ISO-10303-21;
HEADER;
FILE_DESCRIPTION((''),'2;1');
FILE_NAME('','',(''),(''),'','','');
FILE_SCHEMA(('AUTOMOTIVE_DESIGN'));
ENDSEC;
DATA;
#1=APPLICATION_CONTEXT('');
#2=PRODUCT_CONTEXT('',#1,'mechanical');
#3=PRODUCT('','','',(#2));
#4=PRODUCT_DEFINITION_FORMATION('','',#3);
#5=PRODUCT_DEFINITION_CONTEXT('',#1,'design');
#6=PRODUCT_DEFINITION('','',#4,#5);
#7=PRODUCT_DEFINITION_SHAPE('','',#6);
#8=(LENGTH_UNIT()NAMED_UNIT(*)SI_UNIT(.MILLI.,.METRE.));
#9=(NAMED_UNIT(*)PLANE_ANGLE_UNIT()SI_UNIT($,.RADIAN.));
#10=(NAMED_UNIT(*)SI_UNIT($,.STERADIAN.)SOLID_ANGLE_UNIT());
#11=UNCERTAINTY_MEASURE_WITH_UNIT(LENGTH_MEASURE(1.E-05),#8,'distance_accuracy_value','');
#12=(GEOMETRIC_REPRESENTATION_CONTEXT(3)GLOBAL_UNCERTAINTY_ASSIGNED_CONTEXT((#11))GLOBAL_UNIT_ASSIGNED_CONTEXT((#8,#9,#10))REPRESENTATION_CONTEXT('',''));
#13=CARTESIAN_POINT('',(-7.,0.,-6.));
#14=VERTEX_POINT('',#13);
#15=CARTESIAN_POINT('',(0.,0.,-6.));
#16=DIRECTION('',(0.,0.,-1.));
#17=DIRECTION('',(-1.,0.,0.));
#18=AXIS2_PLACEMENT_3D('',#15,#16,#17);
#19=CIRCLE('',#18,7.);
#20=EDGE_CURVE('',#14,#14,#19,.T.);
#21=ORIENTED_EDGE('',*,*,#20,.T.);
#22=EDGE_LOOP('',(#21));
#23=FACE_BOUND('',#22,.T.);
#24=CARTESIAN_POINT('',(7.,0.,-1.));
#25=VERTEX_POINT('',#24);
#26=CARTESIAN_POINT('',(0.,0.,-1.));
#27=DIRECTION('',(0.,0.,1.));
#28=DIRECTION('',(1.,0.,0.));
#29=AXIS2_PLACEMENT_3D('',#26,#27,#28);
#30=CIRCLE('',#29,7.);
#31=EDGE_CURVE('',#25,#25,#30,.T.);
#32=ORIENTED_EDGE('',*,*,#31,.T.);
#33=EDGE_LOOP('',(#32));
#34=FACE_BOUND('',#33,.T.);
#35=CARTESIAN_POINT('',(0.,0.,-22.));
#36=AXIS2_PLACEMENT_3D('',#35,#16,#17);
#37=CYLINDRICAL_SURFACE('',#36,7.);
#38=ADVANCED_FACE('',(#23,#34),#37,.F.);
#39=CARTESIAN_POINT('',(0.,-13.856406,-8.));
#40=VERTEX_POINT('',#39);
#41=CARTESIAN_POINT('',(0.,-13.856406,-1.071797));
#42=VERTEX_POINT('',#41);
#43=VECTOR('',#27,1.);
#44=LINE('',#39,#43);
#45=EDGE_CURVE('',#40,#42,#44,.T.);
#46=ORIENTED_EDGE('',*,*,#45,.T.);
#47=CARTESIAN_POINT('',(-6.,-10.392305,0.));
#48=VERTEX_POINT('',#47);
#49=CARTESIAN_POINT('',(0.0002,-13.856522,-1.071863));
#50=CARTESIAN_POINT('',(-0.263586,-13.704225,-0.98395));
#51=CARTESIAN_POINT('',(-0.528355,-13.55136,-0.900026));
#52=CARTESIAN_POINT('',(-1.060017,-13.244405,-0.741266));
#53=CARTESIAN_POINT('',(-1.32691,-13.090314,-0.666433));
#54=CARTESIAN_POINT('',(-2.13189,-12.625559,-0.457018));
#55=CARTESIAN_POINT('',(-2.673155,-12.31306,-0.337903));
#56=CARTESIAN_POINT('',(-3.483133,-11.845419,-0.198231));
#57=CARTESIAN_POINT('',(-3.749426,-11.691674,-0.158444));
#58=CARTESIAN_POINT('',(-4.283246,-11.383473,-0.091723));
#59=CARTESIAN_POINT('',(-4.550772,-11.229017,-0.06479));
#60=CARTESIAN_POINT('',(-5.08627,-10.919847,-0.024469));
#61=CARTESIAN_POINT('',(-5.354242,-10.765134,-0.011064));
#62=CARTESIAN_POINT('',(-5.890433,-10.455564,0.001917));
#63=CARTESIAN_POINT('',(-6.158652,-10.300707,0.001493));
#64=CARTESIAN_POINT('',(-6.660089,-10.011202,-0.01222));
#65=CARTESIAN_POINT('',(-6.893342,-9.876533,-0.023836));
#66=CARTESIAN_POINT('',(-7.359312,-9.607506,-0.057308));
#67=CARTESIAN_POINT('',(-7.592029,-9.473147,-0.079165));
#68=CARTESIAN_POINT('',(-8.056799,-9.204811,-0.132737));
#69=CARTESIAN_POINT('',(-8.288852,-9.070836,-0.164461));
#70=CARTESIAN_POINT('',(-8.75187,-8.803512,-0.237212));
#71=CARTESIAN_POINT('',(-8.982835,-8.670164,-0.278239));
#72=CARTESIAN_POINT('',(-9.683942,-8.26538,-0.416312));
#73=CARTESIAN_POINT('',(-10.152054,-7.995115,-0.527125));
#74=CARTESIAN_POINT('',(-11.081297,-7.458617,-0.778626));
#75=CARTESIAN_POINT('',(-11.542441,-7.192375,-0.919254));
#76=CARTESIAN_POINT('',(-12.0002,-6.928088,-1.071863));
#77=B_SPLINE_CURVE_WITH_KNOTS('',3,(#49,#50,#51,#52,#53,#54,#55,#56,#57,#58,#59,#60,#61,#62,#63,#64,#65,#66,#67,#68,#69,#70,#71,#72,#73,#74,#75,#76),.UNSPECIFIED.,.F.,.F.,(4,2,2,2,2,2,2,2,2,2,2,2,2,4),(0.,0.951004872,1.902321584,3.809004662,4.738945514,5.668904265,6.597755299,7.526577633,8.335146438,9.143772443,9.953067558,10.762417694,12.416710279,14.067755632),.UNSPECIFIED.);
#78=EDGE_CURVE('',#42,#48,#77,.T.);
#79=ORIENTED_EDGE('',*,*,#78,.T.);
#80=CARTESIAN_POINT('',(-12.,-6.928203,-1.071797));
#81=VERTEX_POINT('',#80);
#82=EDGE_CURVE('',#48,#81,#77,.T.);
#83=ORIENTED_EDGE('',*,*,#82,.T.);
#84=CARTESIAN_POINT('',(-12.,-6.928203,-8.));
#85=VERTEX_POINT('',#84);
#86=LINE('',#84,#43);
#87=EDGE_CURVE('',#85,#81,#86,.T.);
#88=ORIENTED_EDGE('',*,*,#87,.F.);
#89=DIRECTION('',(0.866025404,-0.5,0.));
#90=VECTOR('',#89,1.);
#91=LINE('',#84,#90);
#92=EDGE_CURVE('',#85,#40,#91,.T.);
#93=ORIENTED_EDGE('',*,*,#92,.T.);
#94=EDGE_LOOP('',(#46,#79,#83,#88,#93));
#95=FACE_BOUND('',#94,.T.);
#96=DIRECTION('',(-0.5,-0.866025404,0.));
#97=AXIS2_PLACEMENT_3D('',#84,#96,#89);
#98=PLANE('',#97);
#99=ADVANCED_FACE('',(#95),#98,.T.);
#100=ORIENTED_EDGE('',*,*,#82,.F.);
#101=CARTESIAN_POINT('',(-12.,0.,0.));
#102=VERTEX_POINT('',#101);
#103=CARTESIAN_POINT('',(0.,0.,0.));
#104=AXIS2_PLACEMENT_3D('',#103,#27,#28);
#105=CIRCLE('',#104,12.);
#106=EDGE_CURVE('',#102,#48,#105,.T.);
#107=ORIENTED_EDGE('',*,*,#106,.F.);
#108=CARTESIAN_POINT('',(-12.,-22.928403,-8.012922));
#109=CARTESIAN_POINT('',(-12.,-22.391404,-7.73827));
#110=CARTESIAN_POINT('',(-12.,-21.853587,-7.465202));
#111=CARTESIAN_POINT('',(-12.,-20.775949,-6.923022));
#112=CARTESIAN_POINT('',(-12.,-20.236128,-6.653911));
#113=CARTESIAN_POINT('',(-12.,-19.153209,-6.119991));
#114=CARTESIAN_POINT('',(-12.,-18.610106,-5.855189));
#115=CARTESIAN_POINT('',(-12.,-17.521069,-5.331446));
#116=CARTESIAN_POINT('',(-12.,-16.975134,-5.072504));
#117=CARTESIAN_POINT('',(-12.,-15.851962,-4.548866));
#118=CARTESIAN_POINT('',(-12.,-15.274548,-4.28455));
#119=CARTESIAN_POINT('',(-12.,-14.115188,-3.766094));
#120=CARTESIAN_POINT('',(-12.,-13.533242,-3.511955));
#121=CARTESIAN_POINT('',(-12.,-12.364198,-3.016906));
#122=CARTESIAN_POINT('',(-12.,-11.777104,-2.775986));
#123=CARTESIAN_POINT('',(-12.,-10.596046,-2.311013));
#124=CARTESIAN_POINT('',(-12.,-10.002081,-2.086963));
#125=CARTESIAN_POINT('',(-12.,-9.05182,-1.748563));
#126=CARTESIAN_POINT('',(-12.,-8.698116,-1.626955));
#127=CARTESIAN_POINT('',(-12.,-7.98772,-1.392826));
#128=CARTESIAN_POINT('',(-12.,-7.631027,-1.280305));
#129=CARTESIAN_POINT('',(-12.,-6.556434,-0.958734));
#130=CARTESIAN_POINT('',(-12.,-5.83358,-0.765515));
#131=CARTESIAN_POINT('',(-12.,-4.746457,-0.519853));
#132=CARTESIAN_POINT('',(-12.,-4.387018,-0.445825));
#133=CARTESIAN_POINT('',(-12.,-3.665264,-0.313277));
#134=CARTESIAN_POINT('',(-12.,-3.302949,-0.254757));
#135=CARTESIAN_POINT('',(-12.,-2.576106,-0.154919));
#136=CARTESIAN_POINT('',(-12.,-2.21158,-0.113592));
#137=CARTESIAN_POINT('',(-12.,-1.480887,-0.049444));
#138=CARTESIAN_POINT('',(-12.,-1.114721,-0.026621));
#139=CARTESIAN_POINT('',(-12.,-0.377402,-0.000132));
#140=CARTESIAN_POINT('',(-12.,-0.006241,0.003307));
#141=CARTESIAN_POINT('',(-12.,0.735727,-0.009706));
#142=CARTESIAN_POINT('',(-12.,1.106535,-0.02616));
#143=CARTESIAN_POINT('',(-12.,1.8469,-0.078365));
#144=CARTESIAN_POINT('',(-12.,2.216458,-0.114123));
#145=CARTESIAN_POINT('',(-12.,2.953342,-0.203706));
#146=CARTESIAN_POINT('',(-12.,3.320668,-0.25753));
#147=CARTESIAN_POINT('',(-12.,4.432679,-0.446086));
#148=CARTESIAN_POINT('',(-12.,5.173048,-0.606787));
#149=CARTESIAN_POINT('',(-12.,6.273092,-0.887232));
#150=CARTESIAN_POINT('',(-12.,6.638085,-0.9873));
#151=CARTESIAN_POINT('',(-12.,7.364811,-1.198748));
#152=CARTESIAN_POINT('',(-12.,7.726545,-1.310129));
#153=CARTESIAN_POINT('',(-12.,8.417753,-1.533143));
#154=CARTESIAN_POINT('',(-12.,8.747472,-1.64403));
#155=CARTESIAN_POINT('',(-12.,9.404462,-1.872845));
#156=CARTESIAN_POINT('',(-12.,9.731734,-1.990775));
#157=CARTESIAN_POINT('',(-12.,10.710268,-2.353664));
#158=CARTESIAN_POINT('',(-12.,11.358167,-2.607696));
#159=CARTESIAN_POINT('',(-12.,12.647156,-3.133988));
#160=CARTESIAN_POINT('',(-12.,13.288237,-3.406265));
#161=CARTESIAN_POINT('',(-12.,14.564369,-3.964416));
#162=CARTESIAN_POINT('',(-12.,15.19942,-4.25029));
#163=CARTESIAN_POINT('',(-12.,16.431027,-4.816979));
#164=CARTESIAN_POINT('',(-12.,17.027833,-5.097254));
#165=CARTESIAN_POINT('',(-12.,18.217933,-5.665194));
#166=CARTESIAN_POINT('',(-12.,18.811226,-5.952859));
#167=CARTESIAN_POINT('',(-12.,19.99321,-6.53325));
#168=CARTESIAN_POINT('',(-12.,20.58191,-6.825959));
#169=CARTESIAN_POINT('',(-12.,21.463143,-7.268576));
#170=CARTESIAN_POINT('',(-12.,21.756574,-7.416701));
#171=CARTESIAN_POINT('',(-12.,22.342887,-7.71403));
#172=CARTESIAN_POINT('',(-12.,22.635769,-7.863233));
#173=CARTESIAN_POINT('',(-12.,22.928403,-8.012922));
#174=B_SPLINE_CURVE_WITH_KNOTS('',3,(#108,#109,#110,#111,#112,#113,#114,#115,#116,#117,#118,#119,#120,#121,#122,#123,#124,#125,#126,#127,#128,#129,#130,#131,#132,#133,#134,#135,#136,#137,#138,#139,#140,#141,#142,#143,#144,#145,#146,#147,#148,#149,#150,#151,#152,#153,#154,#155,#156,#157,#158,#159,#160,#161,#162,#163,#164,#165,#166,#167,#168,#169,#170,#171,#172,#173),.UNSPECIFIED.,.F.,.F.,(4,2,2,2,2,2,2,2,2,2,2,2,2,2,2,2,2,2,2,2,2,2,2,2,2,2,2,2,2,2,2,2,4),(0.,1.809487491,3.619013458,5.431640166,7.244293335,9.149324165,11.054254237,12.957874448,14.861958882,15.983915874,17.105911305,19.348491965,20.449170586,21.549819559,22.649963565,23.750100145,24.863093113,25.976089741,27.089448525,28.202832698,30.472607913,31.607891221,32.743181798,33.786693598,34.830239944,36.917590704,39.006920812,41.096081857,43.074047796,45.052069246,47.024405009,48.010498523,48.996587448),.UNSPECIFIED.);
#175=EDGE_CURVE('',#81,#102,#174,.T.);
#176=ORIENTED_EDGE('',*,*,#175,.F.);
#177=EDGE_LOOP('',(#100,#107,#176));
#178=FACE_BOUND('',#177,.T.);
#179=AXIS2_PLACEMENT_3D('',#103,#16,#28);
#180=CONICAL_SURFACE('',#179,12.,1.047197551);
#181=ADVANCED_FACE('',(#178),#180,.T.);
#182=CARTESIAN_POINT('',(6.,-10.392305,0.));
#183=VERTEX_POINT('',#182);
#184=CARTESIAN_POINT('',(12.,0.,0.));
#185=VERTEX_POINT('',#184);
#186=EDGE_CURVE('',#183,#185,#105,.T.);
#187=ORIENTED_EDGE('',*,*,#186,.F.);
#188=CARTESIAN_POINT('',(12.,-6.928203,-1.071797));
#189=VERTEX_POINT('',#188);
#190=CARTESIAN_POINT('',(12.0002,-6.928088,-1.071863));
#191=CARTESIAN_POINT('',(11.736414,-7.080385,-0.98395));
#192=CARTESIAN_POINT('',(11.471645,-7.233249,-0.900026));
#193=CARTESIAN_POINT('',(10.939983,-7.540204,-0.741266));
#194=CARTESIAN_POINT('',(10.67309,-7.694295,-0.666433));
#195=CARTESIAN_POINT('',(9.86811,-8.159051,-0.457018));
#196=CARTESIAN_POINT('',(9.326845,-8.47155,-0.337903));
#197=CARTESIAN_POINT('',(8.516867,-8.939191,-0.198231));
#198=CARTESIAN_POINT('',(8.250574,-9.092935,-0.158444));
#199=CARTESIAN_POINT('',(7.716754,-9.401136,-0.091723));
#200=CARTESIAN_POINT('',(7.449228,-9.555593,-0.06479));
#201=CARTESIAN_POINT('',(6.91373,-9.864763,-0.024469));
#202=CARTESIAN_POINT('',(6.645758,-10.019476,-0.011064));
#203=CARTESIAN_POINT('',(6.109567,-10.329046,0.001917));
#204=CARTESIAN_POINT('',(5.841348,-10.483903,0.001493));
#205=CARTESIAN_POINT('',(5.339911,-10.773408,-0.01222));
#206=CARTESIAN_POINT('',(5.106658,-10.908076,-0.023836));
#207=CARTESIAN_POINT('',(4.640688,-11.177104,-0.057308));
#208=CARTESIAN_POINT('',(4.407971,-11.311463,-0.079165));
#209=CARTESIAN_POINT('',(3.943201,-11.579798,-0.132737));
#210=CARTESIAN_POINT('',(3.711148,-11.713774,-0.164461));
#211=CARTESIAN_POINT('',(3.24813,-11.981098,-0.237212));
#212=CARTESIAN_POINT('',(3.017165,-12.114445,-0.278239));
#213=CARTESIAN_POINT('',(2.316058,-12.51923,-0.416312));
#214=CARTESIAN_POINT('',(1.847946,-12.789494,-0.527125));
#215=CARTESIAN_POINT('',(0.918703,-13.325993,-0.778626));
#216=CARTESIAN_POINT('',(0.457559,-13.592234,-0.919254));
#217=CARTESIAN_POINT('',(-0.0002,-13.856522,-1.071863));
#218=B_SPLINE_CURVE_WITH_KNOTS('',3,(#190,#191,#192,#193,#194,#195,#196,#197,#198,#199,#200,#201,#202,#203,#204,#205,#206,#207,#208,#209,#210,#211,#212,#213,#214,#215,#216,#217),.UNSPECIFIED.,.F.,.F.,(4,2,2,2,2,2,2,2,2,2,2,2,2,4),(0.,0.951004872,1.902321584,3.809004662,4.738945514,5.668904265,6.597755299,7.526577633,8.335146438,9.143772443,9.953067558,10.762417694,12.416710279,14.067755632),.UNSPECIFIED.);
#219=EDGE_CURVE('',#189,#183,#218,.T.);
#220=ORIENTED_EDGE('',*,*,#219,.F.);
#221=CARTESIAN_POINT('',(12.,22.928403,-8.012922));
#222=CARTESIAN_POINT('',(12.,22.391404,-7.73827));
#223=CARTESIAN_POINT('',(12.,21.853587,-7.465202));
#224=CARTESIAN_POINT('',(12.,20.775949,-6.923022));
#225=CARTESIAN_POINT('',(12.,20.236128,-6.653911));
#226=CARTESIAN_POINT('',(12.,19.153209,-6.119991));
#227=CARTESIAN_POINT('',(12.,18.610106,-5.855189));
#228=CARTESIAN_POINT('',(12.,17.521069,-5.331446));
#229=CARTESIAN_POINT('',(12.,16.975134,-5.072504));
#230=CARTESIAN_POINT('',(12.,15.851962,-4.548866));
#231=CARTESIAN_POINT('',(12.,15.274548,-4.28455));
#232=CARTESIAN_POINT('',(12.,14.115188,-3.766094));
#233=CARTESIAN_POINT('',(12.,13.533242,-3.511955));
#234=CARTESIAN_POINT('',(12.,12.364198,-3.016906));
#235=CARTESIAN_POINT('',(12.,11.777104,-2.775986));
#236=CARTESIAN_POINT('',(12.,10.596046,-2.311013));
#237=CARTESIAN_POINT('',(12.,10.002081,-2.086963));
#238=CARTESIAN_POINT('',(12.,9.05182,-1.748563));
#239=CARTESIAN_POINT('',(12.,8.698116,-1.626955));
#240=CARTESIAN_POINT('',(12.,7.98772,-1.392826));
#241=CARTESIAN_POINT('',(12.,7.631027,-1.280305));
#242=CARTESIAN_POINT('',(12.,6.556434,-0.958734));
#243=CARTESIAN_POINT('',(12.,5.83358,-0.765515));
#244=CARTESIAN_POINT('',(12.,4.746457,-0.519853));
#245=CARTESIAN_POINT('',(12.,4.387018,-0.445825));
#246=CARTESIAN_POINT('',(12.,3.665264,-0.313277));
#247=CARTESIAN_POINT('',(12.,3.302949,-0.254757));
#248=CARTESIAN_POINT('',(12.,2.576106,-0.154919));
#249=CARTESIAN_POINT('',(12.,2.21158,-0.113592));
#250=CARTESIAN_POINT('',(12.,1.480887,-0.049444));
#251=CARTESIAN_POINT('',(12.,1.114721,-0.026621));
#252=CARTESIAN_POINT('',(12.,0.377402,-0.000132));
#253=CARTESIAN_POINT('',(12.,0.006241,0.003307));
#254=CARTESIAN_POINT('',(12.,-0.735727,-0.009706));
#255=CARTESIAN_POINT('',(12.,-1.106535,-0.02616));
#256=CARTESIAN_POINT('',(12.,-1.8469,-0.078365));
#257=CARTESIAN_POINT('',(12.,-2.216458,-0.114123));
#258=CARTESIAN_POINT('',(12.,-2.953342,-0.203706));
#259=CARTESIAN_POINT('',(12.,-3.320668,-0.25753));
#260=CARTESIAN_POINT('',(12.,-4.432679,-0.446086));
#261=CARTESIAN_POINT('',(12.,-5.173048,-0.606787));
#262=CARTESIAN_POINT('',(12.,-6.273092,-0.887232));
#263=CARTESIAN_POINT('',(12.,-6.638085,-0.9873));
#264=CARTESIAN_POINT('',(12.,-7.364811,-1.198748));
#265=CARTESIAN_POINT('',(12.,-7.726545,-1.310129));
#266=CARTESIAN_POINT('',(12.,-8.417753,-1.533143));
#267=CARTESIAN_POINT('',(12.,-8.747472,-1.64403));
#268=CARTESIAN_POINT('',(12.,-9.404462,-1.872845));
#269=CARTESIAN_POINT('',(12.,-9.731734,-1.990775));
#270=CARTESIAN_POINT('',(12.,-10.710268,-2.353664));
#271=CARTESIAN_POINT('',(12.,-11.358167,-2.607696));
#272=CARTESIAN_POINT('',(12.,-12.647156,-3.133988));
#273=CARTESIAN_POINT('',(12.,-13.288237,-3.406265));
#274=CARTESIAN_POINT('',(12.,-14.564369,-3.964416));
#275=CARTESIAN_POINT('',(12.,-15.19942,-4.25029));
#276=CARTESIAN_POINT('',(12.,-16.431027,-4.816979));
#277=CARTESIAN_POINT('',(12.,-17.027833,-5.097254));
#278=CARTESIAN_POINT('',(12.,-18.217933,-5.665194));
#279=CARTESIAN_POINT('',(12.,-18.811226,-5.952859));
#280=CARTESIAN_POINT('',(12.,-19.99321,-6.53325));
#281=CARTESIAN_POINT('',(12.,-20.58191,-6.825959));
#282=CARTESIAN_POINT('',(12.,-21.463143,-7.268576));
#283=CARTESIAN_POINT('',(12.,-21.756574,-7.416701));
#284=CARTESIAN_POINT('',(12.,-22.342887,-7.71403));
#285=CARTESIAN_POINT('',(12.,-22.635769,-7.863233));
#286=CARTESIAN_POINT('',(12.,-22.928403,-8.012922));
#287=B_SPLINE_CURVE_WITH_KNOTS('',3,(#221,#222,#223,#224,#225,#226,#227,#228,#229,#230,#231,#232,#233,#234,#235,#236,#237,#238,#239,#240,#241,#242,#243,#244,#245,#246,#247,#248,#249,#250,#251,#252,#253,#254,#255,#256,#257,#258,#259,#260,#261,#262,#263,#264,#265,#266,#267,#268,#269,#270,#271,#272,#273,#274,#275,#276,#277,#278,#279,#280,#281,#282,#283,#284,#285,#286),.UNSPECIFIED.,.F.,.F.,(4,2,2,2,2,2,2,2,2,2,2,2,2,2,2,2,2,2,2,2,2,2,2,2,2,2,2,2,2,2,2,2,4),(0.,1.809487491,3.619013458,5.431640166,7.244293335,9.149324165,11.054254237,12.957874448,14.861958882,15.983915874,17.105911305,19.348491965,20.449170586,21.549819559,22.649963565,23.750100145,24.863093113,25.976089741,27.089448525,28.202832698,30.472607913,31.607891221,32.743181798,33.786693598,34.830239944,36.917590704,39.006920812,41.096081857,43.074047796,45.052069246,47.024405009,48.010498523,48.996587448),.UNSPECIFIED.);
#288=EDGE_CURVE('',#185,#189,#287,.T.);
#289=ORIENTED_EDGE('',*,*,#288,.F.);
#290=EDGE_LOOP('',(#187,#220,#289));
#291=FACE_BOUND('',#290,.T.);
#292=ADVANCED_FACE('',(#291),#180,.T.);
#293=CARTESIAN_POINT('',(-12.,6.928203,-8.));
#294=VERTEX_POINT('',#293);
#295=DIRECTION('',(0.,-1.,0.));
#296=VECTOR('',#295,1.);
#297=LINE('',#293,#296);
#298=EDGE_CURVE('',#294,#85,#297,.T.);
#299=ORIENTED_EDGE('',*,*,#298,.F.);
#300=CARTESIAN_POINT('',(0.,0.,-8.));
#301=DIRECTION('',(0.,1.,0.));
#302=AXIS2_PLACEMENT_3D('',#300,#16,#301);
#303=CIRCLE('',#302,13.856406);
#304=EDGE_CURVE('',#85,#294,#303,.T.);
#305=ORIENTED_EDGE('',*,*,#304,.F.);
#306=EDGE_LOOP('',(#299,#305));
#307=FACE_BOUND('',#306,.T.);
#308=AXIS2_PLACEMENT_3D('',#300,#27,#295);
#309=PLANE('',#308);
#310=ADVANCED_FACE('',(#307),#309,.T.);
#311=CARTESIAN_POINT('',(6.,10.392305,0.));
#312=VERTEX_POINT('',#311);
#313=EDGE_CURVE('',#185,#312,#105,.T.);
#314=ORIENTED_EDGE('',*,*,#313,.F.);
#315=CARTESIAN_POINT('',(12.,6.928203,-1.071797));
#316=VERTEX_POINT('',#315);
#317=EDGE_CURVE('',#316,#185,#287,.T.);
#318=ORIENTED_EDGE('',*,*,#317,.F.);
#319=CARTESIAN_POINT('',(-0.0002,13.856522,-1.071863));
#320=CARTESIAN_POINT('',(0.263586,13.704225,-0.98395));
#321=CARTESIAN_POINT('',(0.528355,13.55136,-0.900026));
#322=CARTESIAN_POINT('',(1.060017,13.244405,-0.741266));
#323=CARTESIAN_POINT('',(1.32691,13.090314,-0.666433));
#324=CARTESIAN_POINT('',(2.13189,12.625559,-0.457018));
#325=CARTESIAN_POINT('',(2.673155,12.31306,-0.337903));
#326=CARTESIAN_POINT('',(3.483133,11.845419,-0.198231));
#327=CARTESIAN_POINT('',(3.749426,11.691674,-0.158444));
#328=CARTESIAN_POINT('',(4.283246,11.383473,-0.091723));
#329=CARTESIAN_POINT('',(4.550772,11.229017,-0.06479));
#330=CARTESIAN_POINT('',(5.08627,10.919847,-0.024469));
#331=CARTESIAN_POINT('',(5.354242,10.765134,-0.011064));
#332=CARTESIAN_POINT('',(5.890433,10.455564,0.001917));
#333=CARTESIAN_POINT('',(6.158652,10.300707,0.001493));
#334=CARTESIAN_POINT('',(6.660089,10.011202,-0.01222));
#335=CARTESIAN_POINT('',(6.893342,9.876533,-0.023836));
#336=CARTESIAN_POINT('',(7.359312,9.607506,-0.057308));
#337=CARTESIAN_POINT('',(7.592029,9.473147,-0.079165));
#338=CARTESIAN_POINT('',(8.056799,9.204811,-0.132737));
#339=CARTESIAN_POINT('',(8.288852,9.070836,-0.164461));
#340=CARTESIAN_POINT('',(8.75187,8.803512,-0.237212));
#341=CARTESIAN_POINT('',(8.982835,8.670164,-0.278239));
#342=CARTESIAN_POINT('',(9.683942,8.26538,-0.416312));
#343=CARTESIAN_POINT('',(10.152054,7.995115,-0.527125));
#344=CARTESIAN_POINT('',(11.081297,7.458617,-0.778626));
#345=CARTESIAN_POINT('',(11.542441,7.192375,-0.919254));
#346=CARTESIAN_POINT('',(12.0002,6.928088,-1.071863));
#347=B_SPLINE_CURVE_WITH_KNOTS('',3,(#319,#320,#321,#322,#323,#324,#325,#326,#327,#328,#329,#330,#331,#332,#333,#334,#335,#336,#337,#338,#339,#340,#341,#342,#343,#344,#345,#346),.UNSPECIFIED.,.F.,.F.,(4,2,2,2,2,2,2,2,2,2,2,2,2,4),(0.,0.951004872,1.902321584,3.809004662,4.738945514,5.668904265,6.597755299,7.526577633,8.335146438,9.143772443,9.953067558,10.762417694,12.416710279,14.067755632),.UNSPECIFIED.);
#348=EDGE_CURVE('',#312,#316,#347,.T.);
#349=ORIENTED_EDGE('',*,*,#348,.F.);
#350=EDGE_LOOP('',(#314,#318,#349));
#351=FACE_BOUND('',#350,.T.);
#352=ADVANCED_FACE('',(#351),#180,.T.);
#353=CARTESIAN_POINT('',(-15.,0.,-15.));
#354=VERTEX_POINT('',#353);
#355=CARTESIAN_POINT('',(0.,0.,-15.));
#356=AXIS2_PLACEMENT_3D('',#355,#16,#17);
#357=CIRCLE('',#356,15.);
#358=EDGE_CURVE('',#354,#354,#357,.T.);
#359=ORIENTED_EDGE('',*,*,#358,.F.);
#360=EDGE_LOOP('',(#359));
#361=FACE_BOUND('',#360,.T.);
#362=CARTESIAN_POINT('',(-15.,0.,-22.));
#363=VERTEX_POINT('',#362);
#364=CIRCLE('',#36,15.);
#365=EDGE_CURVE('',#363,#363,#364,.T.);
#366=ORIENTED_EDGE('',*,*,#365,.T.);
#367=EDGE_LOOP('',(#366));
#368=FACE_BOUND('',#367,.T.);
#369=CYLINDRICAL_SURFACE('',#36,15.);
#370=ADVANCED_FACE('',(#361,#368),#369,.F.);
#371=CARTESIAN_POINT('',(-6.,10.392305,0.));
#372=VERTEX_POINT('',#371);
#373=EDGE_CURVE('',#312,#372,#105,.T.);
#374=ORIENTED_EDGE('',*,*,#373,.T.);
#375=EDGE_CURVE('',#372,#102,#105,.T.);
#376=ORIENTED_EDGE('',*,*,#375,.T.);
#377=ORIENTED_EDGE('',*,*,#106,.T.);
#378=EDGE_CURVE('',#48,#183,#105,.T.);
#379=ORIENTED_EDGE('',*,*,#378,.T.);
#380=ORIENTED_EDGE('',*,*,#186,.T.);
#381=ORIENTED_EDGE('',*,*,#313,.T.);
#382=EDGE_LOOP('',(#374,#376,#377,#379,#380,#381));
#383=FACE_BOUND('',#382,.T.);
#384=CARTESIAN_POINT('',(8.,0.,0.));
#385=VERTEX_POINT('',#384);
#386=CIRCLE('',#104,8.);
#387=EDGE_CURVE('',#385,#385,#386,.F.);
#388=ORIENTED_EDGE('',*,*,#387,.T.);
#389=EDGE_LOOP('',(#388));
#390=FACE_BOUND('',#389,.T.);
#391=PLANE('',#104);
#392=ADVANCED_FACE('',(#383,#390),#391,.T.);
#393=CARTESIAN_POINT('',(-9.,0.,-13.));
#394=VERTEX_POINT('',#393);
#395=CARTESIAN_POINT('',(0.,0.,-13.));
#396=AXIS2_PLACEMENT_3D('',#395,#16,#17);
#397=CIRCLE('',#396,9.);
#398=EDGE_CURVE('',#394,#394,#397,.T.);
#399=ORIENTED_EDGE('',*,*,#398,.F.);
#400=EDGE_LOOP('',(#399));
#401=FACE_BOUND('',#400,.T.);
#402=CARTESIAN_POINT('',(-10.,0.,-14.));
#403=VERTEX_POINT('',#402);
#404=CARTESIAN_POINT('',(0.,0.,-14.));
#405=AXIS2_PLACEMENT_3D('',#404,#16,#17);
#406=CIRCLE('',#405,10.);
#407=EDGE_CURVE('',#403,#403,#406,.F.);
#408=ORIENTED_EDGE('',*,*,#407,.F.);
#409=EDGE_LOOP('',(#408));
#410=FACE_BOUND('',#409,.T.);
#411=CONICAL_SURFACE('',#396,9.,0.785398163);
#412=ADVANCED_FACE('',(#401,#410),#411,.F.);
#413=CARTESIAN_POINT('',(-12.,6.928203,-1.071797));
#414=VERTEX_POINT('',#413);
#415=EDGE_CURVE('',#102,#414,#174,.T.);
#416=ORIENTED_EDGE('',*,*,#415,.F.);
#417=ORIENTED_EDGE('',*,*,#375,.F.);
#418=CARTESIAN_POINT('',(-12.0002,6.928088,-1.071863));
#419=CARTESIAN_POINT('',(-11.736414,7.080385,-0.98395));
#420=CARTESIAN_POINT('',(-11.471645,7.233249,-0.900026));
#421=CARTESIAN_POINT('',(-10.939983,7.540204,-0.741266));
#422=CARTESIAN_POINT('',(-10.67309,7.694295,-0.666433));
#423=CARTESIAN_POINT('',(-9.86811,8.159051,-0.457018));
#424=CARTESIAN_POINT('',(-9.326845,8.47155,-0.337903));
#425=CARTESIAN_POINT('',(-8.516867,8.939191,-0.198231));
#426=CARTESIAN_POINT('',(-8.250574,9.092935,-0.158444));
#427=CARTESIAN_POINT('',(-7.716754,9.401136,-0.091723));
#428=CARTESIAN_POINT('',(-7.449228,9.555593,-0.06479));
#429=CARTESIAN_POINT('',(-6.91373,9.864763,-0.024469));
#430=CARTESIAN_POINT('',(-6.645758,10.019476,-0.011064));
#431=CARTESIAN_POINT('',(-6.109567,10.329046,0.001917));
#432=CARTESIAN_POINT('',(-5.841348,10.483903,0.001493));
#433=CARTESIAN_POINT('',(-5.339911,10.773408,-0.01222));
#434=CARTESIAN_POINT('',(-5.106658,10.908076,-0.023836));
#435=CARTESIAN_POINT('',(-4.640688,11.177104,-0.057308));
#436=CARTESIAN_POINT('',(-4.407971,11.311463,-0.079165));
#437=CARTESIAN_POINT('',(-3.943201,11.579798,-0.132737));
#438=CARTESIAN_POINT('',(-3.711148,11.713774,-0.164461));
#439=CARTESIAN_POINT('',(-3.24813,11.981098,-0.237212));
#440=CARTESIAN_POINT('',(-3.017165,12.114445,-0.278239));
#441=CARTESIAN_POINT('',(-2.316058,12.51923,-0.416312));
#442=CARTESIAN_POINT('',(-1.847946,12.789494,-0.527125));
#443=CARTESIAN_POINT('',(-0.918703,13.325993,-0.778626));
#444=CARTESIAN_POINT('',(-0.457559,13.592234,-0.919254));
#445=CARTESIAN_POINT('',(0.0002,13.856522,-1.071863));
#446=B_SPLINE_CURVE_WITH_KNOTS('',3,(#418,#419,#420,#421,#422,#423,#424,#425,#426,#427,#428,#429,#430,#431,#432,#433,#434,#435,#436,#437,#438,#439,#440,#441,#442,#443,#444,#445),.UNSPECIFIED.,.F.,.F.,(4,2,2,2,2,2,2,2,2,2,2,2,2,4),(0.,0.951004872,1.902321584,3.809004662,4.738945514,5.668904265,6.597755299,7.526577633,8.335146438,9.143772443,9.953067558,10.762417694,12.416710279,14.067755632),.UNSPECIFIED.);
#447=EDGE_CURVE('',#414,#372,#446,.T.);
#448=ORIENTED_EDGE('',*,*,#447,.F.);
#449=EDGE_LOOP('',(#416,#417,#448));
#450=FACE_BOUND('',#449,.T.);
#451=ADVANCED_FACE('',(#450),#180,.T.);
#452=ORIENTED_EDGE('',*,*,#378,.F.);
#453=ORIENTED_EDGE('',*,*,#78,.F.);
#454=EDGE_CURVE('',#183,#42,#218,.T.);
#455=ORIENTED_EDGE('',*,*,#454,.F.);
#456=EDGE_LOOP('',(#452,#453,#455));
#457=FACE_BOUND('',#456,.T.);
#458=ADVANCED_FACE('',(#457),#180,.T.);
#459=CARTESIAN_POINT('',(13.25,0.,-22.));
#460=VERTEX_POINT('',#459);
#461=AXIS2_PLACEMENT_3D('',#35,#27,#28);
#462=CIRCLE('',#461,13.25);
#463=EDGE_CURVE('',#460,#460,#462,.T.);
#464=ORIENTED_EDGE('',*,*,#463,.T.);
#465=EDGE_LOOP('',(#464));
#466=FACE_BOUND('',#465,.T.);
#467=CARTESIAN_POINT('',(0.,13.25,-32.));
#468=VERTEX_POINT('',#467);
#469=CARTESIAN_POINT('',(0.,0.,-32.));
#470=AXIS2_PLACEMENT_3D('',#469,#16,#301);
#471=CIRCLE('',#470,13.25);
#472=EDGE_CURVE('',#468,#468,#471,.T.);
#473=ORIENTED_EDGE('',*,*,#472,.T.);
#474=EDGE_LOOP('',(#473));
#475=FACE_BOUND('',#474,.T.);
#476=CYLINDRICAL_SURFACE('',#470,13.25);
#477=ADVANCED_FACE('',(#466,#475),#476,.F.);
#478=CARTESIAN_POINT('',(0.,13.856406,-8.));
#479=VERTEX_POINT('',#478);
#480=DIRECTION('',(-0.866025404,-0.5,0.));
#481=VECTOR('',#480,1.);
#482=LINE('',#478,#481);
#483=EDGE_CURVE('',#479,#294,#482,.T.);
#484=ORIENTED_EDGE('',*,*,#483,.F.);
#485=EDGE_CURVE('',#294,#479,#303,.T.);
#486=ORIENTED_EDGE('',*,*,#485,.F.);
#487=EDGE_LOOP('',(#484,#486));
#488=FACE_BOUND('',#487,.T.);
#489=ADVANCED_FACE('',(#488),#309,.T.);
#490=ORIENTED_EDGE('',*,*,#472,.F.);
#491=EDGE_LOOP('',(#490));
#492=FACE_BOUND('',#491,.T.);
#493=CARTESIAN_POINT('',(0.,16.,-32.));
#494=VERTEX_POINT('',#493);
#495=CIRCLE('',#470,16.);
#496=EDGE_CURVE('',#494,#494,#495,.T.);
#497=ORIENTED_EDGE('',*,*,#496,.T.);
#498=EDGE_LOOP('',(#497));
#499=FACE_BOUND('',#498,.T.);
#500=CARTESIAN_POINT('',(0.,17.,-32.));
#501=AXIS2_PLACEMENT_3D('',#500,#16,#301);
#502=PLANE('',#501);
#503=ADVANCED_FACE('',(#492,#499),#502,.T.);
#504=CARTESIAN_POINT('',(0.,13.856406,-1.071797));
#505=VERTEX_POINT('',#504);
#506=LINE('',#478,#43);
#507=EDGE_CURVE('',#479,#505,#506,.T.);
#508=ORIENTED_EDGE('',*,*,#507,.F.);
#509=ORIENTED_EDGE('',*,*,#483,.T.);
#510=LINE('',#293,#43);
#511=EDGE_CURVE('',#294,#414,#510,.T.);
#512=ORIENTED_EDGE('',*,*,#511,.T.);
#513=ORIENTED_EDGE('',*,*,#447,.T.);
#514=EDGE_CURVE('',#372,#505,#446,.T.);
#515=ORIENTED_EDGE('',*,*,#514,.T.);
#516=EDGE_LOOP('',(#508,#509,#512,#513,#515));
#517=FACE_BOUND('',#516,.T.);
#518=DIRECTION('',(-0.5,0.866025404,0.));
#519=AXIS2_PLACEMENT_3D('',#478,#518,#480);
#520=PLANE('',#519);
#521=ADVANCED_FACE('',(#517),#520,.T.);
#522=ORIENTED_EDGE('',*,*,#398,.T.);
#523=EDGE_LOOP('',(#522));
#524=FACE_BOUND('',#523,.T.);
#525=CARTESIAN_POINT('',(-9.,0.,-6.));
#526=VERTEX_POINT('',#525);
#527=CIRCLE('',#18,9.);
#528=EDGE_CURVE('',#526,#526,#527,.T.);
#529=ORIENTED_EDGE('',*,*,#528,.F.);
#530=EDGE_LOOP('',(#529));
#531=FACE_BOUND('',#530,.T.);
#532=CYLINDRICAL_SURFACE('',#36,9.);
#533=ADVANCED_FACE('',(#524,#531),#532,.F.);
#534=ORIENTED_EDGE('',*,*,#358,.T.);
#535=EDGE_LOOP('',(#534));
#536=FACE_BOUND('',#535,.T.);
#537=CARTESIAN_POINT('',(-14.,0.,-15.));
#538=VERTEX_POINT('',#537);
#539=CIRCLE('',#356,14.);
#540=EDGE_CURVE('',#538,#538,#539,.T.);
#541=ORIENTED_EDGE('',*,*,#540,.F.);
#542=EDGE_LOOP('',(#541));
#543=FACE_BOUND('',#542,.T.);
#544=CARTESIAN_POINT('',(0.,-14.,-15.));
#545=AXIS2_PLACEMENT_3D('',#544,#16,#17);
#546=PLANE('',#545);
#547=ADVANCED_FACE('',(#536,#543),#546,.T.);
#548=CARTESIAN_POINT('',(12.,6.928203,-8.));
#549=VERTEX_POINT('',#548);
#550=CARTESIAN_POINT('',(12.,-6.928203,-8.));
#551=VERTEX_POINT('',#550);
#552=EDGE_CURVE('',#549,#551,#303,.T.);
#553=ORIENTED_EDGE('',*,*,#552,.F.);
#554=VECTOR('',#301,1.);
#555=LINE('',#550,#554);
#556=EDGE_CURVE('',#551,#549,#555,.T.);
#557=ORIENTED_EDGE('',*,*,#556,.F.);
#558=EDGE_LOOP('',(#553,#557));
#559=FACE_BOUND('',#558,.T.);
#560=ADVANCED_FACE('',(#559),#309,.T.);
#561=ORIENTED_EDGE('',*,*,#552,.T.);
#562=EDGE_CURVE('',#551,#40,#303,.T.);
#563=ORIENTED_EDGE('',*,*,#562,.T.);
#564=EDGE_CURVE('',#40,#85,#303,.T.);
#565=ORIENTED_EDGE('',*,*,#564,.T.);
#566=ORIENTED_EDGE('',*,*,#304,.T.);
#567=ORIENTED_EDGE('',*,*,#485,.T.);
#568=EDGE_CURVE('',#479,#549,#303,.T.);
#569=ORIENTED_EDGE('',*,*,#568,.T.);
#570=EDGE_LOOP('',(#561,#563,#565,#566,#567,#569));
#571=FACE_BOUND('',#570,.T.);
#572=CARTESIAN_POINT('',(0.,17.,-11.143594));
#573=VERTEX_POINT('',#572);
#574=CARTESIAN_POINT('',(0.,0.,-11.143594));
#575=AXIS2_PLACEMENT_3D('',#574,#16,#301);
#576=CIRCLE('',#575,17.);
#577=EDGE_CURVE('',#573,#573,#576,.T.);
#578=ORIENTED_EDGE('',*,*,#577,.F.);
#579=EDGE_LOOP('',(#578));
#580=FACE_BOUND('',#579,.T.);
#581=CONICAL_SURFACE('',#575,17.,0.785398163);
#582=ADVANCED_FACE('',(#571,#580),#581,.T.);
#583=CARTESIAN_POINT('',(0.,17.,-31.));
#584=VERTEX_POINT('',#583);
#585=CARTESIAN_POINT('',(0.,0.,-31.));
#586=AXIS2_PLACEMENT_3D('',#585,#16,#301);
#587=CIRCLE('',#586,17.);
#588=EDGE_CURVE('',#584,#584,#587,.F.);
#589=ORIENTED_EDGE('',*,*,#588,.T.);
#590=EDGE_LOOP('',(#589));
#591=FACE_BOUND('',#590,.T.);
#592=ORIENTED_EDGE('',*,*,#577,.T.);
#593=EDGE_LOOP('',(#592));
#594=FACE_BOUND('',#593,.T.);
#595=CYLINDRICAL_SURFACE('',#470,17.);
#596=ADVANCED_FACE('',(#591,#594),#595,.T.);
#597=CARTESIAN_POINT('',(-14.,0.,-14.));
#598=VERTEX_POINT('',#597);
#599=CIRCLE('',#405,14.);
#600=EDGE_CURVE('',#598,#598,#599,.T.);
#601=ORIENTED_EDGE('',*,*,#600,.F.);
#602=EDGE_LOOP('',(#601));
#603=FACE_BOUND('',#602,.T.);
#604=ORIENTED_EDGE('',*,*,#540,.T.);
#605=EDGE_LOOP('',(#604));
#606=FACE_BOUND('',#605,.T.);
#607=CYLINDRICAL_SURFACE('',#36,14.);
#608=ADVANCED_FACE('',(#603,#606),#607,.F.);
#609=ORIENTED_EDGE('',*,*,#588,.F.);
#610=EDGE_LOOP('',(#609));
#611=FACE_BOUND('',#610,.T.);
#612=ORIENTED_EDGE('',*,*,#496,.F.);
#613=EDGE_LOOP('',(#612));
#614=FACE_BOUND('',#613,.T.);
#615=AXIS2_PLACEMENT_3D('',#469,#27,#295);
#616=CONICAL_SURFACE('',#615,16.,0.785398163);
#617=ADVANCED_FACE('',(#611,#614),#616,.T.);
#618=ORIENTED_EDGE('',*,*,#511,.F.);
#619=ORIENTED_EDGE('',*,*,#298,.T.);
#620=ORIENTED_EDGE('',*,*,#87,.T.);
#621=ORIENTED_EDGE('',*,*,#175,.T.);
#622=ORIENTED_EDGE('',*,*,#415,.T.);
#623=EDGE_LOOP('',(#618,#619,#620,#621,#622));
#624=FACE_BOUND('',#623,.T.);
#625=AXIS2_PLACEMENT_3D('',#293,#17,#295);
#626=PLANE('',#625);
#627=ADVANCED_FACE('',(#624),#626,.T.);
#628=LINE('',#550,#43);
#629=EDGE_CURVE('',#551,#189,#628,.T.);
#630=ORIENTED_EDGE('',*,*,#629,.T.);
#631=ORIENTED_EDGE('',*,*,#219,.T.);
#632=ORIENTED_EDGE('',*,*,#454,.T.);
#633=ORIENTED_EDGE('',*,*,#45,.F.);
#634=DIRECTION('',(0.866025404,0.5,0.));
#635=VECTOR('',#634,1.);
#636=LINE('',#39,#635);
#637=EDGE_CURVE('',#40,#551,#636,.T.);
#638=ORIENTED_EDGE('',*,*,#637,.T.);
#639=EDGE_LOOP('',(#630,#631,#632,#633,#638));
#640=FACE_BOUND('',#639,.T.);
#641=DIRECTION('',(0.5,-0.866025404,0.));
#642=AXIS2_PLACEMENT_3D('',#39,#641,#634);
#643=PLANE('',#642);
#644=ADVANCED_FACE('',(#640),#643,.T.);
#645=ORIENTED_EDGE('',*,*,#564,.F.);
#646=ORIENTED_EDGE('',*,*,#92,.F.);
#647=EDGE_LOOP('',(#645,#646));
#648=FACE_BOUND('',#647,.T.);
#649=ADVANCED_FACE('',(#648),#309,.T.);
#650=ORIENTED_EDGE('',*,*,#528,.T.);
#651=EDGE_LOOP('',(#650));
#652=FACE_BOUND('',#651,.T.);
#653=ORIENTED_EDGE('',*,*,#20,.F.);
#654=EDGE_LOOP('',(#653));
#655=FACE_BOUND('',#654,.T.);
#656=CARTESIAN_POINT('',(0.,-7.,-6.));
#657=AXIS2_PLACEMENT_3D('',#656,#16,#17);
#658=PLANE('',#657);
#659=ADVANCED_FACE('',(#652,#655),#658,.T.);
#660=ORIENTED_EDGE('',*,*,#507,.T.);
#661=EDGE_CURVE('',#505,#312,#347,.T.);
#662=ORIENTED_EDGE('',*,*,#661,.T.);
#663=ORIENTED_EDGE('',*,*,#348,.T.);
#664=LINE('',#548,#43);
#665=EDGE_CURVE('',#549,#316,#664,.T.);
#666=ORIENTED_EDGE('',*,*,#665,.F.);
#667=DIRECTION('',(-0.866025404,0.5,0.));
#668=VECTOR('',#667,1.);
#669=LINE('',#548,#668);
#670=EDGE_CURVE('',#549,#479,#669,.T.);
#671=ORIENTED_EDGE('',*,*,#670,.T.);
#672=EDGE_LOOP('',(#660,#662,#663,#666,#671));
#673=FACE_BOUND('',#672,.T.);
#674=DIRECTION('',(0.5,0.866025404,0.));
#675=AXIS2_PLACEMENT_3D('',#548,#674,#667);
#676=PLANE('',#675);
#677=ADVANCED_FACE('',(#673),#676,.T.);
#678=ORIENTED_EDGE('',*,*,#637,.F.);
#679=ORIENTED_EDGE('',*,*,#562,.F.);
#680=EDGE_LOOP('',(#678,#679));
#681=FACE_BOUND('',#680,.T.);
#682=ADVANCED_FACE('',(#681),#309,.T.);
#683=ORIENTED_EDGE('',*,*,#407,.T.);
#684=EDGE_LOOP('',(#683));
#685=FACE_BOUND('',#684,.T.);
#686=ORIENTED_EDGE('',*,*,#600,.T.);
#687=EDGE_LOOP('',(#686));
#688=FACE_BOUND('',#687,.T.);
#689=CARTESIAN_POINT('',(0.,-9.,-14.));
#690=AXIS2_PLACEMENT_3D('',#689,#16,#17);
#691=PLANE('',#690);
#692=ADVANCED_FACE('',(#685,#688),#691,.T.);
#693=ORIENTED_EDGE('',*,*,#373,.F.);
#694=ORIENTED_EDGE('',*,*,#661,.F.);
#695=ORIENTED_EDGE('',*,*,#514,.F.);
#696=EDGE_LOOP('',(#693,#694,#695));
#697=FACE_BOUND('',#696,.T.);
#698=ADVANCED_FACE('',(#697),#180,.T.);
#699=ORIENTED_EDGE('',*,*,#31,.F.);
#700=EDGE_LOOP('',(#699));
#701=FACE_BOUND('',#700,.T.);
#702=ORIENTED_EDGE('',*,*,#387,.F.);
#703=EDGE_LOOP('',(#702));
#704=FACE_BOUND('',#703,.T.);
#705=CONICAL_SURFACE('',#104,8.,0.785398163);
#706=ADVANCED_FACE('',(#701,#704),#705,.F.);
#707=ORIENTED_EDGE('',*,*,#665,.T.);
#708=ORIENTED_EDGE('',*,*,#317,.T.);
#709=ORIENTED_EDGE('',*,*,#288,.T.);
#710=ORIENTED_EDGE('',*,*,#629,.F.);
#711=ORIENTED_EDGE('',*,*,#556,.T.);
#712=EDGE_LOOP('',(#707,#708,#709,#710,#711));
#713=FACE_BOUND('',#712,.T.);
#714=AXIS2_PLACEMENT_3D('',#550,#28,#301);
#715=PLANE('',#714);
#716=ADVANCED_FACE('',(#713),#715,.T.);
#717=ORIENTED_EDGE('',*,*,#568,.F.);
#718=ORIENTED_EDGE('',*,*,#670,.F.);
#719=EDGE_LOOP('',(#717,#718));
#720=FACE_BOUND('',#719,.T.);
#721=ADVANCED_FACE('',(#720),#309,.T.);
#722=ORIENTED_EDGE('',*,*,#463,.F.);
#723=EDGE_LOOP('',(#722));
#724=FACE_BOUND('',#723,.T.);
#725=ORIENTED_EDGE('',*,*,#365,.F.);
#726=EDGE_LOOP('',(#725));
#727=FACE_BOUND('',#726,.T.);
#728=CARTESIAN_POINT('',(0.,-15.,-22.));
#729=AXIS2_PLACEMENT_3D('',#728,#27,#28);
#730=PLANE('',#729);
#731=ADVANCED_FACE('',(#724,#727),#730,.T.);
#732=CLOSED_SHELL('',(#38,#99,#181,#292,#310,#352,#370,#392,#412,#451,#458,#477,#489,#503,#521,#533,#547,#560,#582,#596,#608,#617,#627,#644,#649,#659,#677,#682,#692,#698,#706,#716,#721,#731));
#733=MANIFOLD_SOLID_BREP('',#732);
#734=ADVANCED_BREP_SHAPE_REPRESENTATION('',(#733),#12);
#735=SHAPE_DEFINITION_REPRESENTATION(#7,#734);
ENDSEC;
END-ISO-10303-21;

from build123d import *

# Parameters (mm, degrees)
EXTRUDE_1_DEPTH         = 8
SKETCH_3_OUTSIDE_W      = 189.666
SKETCH_3_OUTSIDE_H      = 189.666
SKETCH_3_OUTSIDE_R      = 12
CUT_EXTRUDE_1_DEPTH     = 41.024992192
CUT_EXTRUDE_1_DRAFT     = -60
HOLE_WIZARD_M30_1_D     = 26.5
HOLE_WIZARD_M30_1_DEPTH = 10
CHAMFER_1_SIZE          = 1
CHAMFER_2_SIZE          = 1


with BuildPart() as part:
    # 草图1 → 凸台-拉伸1 (new body)
    with BuildSketch(Plane.XY):
        Polygon((0, 13.856406461), (-12, 6.92820323), (-12, -6.92820323), (0, -13.856406461), (12, -6.92820323), (12, 6.92820323), align=None)
    extrude(amount=-EXTRUDE_1_DEPTH)

    # 草图2 → 旋转1 (revolve)
    with BuildSketch(Plane(origin=(0, 0, 0), x_dir=(0, 0, -1), z_dir=(1, 0, 0))):
        Polygon((8, 0), (8, 13.856406461), (11.143593539, 17), (32, 17), (32, 0), align=None)
    revolve(axis=Axis((0, 0, -32), (0, 0, 1)))


with BuildPart() as cut_extrude_1_tool:
    # 草图3 outside → 切除-拉伸1 (with draft: the straight prism first)
    with BuildSketch(Plane.XY):
        Rectangle(SKETCH_3_OUTSIDE_W, SKETCH_3_OUTSIDE_H)
        Circle(SKETCH_3_OUTSIDE_R, mode=Mode.SUBTRACT)
    extrude(amount=-CUT_EXTRUDE_1_DEPTH)
    # 切除-拉伸1: the draft: its side faces are tilted about the plane it starts from
    cut_extrude_1_sides = [cut_extrude_1_tool.faces().sort_by_distance(p)[0] for p in [
        (0, -94.833, -20.512496096),
        (94.833, 0, -20.512496096),
        (0, 94.833, -20.512496096),
        (-94.833, 0, -20.512496096),
        (-12, 0, -20.512496096),
    ]]
    draft(cut_extrude_1_sides, Plane.XY, CUT_EXTRUDE_1_DRAFT)


with BuildPart() as part_1:
    add(part.part)

    # 切除-拉伸1: cut by cut_extrude_1_tool
    add(cut_extrude_1_tool.part, mode=Mode.SUBTRACT)

    # 草图4 → 切除-旋转1 (revolve, cut)
    with BuildSketch(Plane(origin=(0, 0, 0), x_dir=(0, 0, -1), z_dir=(1, 0, 0)), mode=Mode.PRIVATE) as cut_revolve_1_sk:
        Polygon((0, 0), (0, -7), (6, -7), (6, -9), (14, -9), (14, -14), (15, -14), (15, -15), (22, -15), (22, 0), align=None)
    revolve(cut_revolve_1_sk.sketch.rotate(Axis((0, 0, -22), (0, 0, 1)), 270), axis=Axis((0, 0, -22), (0, 0, 1)), mode=Mode.SUBTRACT)

    # M30 螺纹孔1
    with Locations(Plane(origin=(0, 0, -32), x_dir=(-1, 0, 0), z_dir=(0, 0, -1))):
        with Locations((0, 0)):
            Hole(HOLE_WIZARD_M30_1_D / 2, depth=HOLE_WIZARD_M30_1_DEPTH)

    # 倒角1
    chamfer_1_edges = [part_1.edges().sort_by_distance(p)[0] for p in [
        (0, -17, -32),
    ]]
    chamfer(chamfer_1_edges, length=CHAMFER_1_SIZE)

    # 倒角2
    chamfer_2_edges = [part_1.edges().sort_by_distance(p)[0] for p in [
        (7, 0, 0),
        (9, 0, -14),
    ]]
    chamfer(chamfer_2_edges, length=CHAMFER_2_SIZE)


solid = part_1.part
